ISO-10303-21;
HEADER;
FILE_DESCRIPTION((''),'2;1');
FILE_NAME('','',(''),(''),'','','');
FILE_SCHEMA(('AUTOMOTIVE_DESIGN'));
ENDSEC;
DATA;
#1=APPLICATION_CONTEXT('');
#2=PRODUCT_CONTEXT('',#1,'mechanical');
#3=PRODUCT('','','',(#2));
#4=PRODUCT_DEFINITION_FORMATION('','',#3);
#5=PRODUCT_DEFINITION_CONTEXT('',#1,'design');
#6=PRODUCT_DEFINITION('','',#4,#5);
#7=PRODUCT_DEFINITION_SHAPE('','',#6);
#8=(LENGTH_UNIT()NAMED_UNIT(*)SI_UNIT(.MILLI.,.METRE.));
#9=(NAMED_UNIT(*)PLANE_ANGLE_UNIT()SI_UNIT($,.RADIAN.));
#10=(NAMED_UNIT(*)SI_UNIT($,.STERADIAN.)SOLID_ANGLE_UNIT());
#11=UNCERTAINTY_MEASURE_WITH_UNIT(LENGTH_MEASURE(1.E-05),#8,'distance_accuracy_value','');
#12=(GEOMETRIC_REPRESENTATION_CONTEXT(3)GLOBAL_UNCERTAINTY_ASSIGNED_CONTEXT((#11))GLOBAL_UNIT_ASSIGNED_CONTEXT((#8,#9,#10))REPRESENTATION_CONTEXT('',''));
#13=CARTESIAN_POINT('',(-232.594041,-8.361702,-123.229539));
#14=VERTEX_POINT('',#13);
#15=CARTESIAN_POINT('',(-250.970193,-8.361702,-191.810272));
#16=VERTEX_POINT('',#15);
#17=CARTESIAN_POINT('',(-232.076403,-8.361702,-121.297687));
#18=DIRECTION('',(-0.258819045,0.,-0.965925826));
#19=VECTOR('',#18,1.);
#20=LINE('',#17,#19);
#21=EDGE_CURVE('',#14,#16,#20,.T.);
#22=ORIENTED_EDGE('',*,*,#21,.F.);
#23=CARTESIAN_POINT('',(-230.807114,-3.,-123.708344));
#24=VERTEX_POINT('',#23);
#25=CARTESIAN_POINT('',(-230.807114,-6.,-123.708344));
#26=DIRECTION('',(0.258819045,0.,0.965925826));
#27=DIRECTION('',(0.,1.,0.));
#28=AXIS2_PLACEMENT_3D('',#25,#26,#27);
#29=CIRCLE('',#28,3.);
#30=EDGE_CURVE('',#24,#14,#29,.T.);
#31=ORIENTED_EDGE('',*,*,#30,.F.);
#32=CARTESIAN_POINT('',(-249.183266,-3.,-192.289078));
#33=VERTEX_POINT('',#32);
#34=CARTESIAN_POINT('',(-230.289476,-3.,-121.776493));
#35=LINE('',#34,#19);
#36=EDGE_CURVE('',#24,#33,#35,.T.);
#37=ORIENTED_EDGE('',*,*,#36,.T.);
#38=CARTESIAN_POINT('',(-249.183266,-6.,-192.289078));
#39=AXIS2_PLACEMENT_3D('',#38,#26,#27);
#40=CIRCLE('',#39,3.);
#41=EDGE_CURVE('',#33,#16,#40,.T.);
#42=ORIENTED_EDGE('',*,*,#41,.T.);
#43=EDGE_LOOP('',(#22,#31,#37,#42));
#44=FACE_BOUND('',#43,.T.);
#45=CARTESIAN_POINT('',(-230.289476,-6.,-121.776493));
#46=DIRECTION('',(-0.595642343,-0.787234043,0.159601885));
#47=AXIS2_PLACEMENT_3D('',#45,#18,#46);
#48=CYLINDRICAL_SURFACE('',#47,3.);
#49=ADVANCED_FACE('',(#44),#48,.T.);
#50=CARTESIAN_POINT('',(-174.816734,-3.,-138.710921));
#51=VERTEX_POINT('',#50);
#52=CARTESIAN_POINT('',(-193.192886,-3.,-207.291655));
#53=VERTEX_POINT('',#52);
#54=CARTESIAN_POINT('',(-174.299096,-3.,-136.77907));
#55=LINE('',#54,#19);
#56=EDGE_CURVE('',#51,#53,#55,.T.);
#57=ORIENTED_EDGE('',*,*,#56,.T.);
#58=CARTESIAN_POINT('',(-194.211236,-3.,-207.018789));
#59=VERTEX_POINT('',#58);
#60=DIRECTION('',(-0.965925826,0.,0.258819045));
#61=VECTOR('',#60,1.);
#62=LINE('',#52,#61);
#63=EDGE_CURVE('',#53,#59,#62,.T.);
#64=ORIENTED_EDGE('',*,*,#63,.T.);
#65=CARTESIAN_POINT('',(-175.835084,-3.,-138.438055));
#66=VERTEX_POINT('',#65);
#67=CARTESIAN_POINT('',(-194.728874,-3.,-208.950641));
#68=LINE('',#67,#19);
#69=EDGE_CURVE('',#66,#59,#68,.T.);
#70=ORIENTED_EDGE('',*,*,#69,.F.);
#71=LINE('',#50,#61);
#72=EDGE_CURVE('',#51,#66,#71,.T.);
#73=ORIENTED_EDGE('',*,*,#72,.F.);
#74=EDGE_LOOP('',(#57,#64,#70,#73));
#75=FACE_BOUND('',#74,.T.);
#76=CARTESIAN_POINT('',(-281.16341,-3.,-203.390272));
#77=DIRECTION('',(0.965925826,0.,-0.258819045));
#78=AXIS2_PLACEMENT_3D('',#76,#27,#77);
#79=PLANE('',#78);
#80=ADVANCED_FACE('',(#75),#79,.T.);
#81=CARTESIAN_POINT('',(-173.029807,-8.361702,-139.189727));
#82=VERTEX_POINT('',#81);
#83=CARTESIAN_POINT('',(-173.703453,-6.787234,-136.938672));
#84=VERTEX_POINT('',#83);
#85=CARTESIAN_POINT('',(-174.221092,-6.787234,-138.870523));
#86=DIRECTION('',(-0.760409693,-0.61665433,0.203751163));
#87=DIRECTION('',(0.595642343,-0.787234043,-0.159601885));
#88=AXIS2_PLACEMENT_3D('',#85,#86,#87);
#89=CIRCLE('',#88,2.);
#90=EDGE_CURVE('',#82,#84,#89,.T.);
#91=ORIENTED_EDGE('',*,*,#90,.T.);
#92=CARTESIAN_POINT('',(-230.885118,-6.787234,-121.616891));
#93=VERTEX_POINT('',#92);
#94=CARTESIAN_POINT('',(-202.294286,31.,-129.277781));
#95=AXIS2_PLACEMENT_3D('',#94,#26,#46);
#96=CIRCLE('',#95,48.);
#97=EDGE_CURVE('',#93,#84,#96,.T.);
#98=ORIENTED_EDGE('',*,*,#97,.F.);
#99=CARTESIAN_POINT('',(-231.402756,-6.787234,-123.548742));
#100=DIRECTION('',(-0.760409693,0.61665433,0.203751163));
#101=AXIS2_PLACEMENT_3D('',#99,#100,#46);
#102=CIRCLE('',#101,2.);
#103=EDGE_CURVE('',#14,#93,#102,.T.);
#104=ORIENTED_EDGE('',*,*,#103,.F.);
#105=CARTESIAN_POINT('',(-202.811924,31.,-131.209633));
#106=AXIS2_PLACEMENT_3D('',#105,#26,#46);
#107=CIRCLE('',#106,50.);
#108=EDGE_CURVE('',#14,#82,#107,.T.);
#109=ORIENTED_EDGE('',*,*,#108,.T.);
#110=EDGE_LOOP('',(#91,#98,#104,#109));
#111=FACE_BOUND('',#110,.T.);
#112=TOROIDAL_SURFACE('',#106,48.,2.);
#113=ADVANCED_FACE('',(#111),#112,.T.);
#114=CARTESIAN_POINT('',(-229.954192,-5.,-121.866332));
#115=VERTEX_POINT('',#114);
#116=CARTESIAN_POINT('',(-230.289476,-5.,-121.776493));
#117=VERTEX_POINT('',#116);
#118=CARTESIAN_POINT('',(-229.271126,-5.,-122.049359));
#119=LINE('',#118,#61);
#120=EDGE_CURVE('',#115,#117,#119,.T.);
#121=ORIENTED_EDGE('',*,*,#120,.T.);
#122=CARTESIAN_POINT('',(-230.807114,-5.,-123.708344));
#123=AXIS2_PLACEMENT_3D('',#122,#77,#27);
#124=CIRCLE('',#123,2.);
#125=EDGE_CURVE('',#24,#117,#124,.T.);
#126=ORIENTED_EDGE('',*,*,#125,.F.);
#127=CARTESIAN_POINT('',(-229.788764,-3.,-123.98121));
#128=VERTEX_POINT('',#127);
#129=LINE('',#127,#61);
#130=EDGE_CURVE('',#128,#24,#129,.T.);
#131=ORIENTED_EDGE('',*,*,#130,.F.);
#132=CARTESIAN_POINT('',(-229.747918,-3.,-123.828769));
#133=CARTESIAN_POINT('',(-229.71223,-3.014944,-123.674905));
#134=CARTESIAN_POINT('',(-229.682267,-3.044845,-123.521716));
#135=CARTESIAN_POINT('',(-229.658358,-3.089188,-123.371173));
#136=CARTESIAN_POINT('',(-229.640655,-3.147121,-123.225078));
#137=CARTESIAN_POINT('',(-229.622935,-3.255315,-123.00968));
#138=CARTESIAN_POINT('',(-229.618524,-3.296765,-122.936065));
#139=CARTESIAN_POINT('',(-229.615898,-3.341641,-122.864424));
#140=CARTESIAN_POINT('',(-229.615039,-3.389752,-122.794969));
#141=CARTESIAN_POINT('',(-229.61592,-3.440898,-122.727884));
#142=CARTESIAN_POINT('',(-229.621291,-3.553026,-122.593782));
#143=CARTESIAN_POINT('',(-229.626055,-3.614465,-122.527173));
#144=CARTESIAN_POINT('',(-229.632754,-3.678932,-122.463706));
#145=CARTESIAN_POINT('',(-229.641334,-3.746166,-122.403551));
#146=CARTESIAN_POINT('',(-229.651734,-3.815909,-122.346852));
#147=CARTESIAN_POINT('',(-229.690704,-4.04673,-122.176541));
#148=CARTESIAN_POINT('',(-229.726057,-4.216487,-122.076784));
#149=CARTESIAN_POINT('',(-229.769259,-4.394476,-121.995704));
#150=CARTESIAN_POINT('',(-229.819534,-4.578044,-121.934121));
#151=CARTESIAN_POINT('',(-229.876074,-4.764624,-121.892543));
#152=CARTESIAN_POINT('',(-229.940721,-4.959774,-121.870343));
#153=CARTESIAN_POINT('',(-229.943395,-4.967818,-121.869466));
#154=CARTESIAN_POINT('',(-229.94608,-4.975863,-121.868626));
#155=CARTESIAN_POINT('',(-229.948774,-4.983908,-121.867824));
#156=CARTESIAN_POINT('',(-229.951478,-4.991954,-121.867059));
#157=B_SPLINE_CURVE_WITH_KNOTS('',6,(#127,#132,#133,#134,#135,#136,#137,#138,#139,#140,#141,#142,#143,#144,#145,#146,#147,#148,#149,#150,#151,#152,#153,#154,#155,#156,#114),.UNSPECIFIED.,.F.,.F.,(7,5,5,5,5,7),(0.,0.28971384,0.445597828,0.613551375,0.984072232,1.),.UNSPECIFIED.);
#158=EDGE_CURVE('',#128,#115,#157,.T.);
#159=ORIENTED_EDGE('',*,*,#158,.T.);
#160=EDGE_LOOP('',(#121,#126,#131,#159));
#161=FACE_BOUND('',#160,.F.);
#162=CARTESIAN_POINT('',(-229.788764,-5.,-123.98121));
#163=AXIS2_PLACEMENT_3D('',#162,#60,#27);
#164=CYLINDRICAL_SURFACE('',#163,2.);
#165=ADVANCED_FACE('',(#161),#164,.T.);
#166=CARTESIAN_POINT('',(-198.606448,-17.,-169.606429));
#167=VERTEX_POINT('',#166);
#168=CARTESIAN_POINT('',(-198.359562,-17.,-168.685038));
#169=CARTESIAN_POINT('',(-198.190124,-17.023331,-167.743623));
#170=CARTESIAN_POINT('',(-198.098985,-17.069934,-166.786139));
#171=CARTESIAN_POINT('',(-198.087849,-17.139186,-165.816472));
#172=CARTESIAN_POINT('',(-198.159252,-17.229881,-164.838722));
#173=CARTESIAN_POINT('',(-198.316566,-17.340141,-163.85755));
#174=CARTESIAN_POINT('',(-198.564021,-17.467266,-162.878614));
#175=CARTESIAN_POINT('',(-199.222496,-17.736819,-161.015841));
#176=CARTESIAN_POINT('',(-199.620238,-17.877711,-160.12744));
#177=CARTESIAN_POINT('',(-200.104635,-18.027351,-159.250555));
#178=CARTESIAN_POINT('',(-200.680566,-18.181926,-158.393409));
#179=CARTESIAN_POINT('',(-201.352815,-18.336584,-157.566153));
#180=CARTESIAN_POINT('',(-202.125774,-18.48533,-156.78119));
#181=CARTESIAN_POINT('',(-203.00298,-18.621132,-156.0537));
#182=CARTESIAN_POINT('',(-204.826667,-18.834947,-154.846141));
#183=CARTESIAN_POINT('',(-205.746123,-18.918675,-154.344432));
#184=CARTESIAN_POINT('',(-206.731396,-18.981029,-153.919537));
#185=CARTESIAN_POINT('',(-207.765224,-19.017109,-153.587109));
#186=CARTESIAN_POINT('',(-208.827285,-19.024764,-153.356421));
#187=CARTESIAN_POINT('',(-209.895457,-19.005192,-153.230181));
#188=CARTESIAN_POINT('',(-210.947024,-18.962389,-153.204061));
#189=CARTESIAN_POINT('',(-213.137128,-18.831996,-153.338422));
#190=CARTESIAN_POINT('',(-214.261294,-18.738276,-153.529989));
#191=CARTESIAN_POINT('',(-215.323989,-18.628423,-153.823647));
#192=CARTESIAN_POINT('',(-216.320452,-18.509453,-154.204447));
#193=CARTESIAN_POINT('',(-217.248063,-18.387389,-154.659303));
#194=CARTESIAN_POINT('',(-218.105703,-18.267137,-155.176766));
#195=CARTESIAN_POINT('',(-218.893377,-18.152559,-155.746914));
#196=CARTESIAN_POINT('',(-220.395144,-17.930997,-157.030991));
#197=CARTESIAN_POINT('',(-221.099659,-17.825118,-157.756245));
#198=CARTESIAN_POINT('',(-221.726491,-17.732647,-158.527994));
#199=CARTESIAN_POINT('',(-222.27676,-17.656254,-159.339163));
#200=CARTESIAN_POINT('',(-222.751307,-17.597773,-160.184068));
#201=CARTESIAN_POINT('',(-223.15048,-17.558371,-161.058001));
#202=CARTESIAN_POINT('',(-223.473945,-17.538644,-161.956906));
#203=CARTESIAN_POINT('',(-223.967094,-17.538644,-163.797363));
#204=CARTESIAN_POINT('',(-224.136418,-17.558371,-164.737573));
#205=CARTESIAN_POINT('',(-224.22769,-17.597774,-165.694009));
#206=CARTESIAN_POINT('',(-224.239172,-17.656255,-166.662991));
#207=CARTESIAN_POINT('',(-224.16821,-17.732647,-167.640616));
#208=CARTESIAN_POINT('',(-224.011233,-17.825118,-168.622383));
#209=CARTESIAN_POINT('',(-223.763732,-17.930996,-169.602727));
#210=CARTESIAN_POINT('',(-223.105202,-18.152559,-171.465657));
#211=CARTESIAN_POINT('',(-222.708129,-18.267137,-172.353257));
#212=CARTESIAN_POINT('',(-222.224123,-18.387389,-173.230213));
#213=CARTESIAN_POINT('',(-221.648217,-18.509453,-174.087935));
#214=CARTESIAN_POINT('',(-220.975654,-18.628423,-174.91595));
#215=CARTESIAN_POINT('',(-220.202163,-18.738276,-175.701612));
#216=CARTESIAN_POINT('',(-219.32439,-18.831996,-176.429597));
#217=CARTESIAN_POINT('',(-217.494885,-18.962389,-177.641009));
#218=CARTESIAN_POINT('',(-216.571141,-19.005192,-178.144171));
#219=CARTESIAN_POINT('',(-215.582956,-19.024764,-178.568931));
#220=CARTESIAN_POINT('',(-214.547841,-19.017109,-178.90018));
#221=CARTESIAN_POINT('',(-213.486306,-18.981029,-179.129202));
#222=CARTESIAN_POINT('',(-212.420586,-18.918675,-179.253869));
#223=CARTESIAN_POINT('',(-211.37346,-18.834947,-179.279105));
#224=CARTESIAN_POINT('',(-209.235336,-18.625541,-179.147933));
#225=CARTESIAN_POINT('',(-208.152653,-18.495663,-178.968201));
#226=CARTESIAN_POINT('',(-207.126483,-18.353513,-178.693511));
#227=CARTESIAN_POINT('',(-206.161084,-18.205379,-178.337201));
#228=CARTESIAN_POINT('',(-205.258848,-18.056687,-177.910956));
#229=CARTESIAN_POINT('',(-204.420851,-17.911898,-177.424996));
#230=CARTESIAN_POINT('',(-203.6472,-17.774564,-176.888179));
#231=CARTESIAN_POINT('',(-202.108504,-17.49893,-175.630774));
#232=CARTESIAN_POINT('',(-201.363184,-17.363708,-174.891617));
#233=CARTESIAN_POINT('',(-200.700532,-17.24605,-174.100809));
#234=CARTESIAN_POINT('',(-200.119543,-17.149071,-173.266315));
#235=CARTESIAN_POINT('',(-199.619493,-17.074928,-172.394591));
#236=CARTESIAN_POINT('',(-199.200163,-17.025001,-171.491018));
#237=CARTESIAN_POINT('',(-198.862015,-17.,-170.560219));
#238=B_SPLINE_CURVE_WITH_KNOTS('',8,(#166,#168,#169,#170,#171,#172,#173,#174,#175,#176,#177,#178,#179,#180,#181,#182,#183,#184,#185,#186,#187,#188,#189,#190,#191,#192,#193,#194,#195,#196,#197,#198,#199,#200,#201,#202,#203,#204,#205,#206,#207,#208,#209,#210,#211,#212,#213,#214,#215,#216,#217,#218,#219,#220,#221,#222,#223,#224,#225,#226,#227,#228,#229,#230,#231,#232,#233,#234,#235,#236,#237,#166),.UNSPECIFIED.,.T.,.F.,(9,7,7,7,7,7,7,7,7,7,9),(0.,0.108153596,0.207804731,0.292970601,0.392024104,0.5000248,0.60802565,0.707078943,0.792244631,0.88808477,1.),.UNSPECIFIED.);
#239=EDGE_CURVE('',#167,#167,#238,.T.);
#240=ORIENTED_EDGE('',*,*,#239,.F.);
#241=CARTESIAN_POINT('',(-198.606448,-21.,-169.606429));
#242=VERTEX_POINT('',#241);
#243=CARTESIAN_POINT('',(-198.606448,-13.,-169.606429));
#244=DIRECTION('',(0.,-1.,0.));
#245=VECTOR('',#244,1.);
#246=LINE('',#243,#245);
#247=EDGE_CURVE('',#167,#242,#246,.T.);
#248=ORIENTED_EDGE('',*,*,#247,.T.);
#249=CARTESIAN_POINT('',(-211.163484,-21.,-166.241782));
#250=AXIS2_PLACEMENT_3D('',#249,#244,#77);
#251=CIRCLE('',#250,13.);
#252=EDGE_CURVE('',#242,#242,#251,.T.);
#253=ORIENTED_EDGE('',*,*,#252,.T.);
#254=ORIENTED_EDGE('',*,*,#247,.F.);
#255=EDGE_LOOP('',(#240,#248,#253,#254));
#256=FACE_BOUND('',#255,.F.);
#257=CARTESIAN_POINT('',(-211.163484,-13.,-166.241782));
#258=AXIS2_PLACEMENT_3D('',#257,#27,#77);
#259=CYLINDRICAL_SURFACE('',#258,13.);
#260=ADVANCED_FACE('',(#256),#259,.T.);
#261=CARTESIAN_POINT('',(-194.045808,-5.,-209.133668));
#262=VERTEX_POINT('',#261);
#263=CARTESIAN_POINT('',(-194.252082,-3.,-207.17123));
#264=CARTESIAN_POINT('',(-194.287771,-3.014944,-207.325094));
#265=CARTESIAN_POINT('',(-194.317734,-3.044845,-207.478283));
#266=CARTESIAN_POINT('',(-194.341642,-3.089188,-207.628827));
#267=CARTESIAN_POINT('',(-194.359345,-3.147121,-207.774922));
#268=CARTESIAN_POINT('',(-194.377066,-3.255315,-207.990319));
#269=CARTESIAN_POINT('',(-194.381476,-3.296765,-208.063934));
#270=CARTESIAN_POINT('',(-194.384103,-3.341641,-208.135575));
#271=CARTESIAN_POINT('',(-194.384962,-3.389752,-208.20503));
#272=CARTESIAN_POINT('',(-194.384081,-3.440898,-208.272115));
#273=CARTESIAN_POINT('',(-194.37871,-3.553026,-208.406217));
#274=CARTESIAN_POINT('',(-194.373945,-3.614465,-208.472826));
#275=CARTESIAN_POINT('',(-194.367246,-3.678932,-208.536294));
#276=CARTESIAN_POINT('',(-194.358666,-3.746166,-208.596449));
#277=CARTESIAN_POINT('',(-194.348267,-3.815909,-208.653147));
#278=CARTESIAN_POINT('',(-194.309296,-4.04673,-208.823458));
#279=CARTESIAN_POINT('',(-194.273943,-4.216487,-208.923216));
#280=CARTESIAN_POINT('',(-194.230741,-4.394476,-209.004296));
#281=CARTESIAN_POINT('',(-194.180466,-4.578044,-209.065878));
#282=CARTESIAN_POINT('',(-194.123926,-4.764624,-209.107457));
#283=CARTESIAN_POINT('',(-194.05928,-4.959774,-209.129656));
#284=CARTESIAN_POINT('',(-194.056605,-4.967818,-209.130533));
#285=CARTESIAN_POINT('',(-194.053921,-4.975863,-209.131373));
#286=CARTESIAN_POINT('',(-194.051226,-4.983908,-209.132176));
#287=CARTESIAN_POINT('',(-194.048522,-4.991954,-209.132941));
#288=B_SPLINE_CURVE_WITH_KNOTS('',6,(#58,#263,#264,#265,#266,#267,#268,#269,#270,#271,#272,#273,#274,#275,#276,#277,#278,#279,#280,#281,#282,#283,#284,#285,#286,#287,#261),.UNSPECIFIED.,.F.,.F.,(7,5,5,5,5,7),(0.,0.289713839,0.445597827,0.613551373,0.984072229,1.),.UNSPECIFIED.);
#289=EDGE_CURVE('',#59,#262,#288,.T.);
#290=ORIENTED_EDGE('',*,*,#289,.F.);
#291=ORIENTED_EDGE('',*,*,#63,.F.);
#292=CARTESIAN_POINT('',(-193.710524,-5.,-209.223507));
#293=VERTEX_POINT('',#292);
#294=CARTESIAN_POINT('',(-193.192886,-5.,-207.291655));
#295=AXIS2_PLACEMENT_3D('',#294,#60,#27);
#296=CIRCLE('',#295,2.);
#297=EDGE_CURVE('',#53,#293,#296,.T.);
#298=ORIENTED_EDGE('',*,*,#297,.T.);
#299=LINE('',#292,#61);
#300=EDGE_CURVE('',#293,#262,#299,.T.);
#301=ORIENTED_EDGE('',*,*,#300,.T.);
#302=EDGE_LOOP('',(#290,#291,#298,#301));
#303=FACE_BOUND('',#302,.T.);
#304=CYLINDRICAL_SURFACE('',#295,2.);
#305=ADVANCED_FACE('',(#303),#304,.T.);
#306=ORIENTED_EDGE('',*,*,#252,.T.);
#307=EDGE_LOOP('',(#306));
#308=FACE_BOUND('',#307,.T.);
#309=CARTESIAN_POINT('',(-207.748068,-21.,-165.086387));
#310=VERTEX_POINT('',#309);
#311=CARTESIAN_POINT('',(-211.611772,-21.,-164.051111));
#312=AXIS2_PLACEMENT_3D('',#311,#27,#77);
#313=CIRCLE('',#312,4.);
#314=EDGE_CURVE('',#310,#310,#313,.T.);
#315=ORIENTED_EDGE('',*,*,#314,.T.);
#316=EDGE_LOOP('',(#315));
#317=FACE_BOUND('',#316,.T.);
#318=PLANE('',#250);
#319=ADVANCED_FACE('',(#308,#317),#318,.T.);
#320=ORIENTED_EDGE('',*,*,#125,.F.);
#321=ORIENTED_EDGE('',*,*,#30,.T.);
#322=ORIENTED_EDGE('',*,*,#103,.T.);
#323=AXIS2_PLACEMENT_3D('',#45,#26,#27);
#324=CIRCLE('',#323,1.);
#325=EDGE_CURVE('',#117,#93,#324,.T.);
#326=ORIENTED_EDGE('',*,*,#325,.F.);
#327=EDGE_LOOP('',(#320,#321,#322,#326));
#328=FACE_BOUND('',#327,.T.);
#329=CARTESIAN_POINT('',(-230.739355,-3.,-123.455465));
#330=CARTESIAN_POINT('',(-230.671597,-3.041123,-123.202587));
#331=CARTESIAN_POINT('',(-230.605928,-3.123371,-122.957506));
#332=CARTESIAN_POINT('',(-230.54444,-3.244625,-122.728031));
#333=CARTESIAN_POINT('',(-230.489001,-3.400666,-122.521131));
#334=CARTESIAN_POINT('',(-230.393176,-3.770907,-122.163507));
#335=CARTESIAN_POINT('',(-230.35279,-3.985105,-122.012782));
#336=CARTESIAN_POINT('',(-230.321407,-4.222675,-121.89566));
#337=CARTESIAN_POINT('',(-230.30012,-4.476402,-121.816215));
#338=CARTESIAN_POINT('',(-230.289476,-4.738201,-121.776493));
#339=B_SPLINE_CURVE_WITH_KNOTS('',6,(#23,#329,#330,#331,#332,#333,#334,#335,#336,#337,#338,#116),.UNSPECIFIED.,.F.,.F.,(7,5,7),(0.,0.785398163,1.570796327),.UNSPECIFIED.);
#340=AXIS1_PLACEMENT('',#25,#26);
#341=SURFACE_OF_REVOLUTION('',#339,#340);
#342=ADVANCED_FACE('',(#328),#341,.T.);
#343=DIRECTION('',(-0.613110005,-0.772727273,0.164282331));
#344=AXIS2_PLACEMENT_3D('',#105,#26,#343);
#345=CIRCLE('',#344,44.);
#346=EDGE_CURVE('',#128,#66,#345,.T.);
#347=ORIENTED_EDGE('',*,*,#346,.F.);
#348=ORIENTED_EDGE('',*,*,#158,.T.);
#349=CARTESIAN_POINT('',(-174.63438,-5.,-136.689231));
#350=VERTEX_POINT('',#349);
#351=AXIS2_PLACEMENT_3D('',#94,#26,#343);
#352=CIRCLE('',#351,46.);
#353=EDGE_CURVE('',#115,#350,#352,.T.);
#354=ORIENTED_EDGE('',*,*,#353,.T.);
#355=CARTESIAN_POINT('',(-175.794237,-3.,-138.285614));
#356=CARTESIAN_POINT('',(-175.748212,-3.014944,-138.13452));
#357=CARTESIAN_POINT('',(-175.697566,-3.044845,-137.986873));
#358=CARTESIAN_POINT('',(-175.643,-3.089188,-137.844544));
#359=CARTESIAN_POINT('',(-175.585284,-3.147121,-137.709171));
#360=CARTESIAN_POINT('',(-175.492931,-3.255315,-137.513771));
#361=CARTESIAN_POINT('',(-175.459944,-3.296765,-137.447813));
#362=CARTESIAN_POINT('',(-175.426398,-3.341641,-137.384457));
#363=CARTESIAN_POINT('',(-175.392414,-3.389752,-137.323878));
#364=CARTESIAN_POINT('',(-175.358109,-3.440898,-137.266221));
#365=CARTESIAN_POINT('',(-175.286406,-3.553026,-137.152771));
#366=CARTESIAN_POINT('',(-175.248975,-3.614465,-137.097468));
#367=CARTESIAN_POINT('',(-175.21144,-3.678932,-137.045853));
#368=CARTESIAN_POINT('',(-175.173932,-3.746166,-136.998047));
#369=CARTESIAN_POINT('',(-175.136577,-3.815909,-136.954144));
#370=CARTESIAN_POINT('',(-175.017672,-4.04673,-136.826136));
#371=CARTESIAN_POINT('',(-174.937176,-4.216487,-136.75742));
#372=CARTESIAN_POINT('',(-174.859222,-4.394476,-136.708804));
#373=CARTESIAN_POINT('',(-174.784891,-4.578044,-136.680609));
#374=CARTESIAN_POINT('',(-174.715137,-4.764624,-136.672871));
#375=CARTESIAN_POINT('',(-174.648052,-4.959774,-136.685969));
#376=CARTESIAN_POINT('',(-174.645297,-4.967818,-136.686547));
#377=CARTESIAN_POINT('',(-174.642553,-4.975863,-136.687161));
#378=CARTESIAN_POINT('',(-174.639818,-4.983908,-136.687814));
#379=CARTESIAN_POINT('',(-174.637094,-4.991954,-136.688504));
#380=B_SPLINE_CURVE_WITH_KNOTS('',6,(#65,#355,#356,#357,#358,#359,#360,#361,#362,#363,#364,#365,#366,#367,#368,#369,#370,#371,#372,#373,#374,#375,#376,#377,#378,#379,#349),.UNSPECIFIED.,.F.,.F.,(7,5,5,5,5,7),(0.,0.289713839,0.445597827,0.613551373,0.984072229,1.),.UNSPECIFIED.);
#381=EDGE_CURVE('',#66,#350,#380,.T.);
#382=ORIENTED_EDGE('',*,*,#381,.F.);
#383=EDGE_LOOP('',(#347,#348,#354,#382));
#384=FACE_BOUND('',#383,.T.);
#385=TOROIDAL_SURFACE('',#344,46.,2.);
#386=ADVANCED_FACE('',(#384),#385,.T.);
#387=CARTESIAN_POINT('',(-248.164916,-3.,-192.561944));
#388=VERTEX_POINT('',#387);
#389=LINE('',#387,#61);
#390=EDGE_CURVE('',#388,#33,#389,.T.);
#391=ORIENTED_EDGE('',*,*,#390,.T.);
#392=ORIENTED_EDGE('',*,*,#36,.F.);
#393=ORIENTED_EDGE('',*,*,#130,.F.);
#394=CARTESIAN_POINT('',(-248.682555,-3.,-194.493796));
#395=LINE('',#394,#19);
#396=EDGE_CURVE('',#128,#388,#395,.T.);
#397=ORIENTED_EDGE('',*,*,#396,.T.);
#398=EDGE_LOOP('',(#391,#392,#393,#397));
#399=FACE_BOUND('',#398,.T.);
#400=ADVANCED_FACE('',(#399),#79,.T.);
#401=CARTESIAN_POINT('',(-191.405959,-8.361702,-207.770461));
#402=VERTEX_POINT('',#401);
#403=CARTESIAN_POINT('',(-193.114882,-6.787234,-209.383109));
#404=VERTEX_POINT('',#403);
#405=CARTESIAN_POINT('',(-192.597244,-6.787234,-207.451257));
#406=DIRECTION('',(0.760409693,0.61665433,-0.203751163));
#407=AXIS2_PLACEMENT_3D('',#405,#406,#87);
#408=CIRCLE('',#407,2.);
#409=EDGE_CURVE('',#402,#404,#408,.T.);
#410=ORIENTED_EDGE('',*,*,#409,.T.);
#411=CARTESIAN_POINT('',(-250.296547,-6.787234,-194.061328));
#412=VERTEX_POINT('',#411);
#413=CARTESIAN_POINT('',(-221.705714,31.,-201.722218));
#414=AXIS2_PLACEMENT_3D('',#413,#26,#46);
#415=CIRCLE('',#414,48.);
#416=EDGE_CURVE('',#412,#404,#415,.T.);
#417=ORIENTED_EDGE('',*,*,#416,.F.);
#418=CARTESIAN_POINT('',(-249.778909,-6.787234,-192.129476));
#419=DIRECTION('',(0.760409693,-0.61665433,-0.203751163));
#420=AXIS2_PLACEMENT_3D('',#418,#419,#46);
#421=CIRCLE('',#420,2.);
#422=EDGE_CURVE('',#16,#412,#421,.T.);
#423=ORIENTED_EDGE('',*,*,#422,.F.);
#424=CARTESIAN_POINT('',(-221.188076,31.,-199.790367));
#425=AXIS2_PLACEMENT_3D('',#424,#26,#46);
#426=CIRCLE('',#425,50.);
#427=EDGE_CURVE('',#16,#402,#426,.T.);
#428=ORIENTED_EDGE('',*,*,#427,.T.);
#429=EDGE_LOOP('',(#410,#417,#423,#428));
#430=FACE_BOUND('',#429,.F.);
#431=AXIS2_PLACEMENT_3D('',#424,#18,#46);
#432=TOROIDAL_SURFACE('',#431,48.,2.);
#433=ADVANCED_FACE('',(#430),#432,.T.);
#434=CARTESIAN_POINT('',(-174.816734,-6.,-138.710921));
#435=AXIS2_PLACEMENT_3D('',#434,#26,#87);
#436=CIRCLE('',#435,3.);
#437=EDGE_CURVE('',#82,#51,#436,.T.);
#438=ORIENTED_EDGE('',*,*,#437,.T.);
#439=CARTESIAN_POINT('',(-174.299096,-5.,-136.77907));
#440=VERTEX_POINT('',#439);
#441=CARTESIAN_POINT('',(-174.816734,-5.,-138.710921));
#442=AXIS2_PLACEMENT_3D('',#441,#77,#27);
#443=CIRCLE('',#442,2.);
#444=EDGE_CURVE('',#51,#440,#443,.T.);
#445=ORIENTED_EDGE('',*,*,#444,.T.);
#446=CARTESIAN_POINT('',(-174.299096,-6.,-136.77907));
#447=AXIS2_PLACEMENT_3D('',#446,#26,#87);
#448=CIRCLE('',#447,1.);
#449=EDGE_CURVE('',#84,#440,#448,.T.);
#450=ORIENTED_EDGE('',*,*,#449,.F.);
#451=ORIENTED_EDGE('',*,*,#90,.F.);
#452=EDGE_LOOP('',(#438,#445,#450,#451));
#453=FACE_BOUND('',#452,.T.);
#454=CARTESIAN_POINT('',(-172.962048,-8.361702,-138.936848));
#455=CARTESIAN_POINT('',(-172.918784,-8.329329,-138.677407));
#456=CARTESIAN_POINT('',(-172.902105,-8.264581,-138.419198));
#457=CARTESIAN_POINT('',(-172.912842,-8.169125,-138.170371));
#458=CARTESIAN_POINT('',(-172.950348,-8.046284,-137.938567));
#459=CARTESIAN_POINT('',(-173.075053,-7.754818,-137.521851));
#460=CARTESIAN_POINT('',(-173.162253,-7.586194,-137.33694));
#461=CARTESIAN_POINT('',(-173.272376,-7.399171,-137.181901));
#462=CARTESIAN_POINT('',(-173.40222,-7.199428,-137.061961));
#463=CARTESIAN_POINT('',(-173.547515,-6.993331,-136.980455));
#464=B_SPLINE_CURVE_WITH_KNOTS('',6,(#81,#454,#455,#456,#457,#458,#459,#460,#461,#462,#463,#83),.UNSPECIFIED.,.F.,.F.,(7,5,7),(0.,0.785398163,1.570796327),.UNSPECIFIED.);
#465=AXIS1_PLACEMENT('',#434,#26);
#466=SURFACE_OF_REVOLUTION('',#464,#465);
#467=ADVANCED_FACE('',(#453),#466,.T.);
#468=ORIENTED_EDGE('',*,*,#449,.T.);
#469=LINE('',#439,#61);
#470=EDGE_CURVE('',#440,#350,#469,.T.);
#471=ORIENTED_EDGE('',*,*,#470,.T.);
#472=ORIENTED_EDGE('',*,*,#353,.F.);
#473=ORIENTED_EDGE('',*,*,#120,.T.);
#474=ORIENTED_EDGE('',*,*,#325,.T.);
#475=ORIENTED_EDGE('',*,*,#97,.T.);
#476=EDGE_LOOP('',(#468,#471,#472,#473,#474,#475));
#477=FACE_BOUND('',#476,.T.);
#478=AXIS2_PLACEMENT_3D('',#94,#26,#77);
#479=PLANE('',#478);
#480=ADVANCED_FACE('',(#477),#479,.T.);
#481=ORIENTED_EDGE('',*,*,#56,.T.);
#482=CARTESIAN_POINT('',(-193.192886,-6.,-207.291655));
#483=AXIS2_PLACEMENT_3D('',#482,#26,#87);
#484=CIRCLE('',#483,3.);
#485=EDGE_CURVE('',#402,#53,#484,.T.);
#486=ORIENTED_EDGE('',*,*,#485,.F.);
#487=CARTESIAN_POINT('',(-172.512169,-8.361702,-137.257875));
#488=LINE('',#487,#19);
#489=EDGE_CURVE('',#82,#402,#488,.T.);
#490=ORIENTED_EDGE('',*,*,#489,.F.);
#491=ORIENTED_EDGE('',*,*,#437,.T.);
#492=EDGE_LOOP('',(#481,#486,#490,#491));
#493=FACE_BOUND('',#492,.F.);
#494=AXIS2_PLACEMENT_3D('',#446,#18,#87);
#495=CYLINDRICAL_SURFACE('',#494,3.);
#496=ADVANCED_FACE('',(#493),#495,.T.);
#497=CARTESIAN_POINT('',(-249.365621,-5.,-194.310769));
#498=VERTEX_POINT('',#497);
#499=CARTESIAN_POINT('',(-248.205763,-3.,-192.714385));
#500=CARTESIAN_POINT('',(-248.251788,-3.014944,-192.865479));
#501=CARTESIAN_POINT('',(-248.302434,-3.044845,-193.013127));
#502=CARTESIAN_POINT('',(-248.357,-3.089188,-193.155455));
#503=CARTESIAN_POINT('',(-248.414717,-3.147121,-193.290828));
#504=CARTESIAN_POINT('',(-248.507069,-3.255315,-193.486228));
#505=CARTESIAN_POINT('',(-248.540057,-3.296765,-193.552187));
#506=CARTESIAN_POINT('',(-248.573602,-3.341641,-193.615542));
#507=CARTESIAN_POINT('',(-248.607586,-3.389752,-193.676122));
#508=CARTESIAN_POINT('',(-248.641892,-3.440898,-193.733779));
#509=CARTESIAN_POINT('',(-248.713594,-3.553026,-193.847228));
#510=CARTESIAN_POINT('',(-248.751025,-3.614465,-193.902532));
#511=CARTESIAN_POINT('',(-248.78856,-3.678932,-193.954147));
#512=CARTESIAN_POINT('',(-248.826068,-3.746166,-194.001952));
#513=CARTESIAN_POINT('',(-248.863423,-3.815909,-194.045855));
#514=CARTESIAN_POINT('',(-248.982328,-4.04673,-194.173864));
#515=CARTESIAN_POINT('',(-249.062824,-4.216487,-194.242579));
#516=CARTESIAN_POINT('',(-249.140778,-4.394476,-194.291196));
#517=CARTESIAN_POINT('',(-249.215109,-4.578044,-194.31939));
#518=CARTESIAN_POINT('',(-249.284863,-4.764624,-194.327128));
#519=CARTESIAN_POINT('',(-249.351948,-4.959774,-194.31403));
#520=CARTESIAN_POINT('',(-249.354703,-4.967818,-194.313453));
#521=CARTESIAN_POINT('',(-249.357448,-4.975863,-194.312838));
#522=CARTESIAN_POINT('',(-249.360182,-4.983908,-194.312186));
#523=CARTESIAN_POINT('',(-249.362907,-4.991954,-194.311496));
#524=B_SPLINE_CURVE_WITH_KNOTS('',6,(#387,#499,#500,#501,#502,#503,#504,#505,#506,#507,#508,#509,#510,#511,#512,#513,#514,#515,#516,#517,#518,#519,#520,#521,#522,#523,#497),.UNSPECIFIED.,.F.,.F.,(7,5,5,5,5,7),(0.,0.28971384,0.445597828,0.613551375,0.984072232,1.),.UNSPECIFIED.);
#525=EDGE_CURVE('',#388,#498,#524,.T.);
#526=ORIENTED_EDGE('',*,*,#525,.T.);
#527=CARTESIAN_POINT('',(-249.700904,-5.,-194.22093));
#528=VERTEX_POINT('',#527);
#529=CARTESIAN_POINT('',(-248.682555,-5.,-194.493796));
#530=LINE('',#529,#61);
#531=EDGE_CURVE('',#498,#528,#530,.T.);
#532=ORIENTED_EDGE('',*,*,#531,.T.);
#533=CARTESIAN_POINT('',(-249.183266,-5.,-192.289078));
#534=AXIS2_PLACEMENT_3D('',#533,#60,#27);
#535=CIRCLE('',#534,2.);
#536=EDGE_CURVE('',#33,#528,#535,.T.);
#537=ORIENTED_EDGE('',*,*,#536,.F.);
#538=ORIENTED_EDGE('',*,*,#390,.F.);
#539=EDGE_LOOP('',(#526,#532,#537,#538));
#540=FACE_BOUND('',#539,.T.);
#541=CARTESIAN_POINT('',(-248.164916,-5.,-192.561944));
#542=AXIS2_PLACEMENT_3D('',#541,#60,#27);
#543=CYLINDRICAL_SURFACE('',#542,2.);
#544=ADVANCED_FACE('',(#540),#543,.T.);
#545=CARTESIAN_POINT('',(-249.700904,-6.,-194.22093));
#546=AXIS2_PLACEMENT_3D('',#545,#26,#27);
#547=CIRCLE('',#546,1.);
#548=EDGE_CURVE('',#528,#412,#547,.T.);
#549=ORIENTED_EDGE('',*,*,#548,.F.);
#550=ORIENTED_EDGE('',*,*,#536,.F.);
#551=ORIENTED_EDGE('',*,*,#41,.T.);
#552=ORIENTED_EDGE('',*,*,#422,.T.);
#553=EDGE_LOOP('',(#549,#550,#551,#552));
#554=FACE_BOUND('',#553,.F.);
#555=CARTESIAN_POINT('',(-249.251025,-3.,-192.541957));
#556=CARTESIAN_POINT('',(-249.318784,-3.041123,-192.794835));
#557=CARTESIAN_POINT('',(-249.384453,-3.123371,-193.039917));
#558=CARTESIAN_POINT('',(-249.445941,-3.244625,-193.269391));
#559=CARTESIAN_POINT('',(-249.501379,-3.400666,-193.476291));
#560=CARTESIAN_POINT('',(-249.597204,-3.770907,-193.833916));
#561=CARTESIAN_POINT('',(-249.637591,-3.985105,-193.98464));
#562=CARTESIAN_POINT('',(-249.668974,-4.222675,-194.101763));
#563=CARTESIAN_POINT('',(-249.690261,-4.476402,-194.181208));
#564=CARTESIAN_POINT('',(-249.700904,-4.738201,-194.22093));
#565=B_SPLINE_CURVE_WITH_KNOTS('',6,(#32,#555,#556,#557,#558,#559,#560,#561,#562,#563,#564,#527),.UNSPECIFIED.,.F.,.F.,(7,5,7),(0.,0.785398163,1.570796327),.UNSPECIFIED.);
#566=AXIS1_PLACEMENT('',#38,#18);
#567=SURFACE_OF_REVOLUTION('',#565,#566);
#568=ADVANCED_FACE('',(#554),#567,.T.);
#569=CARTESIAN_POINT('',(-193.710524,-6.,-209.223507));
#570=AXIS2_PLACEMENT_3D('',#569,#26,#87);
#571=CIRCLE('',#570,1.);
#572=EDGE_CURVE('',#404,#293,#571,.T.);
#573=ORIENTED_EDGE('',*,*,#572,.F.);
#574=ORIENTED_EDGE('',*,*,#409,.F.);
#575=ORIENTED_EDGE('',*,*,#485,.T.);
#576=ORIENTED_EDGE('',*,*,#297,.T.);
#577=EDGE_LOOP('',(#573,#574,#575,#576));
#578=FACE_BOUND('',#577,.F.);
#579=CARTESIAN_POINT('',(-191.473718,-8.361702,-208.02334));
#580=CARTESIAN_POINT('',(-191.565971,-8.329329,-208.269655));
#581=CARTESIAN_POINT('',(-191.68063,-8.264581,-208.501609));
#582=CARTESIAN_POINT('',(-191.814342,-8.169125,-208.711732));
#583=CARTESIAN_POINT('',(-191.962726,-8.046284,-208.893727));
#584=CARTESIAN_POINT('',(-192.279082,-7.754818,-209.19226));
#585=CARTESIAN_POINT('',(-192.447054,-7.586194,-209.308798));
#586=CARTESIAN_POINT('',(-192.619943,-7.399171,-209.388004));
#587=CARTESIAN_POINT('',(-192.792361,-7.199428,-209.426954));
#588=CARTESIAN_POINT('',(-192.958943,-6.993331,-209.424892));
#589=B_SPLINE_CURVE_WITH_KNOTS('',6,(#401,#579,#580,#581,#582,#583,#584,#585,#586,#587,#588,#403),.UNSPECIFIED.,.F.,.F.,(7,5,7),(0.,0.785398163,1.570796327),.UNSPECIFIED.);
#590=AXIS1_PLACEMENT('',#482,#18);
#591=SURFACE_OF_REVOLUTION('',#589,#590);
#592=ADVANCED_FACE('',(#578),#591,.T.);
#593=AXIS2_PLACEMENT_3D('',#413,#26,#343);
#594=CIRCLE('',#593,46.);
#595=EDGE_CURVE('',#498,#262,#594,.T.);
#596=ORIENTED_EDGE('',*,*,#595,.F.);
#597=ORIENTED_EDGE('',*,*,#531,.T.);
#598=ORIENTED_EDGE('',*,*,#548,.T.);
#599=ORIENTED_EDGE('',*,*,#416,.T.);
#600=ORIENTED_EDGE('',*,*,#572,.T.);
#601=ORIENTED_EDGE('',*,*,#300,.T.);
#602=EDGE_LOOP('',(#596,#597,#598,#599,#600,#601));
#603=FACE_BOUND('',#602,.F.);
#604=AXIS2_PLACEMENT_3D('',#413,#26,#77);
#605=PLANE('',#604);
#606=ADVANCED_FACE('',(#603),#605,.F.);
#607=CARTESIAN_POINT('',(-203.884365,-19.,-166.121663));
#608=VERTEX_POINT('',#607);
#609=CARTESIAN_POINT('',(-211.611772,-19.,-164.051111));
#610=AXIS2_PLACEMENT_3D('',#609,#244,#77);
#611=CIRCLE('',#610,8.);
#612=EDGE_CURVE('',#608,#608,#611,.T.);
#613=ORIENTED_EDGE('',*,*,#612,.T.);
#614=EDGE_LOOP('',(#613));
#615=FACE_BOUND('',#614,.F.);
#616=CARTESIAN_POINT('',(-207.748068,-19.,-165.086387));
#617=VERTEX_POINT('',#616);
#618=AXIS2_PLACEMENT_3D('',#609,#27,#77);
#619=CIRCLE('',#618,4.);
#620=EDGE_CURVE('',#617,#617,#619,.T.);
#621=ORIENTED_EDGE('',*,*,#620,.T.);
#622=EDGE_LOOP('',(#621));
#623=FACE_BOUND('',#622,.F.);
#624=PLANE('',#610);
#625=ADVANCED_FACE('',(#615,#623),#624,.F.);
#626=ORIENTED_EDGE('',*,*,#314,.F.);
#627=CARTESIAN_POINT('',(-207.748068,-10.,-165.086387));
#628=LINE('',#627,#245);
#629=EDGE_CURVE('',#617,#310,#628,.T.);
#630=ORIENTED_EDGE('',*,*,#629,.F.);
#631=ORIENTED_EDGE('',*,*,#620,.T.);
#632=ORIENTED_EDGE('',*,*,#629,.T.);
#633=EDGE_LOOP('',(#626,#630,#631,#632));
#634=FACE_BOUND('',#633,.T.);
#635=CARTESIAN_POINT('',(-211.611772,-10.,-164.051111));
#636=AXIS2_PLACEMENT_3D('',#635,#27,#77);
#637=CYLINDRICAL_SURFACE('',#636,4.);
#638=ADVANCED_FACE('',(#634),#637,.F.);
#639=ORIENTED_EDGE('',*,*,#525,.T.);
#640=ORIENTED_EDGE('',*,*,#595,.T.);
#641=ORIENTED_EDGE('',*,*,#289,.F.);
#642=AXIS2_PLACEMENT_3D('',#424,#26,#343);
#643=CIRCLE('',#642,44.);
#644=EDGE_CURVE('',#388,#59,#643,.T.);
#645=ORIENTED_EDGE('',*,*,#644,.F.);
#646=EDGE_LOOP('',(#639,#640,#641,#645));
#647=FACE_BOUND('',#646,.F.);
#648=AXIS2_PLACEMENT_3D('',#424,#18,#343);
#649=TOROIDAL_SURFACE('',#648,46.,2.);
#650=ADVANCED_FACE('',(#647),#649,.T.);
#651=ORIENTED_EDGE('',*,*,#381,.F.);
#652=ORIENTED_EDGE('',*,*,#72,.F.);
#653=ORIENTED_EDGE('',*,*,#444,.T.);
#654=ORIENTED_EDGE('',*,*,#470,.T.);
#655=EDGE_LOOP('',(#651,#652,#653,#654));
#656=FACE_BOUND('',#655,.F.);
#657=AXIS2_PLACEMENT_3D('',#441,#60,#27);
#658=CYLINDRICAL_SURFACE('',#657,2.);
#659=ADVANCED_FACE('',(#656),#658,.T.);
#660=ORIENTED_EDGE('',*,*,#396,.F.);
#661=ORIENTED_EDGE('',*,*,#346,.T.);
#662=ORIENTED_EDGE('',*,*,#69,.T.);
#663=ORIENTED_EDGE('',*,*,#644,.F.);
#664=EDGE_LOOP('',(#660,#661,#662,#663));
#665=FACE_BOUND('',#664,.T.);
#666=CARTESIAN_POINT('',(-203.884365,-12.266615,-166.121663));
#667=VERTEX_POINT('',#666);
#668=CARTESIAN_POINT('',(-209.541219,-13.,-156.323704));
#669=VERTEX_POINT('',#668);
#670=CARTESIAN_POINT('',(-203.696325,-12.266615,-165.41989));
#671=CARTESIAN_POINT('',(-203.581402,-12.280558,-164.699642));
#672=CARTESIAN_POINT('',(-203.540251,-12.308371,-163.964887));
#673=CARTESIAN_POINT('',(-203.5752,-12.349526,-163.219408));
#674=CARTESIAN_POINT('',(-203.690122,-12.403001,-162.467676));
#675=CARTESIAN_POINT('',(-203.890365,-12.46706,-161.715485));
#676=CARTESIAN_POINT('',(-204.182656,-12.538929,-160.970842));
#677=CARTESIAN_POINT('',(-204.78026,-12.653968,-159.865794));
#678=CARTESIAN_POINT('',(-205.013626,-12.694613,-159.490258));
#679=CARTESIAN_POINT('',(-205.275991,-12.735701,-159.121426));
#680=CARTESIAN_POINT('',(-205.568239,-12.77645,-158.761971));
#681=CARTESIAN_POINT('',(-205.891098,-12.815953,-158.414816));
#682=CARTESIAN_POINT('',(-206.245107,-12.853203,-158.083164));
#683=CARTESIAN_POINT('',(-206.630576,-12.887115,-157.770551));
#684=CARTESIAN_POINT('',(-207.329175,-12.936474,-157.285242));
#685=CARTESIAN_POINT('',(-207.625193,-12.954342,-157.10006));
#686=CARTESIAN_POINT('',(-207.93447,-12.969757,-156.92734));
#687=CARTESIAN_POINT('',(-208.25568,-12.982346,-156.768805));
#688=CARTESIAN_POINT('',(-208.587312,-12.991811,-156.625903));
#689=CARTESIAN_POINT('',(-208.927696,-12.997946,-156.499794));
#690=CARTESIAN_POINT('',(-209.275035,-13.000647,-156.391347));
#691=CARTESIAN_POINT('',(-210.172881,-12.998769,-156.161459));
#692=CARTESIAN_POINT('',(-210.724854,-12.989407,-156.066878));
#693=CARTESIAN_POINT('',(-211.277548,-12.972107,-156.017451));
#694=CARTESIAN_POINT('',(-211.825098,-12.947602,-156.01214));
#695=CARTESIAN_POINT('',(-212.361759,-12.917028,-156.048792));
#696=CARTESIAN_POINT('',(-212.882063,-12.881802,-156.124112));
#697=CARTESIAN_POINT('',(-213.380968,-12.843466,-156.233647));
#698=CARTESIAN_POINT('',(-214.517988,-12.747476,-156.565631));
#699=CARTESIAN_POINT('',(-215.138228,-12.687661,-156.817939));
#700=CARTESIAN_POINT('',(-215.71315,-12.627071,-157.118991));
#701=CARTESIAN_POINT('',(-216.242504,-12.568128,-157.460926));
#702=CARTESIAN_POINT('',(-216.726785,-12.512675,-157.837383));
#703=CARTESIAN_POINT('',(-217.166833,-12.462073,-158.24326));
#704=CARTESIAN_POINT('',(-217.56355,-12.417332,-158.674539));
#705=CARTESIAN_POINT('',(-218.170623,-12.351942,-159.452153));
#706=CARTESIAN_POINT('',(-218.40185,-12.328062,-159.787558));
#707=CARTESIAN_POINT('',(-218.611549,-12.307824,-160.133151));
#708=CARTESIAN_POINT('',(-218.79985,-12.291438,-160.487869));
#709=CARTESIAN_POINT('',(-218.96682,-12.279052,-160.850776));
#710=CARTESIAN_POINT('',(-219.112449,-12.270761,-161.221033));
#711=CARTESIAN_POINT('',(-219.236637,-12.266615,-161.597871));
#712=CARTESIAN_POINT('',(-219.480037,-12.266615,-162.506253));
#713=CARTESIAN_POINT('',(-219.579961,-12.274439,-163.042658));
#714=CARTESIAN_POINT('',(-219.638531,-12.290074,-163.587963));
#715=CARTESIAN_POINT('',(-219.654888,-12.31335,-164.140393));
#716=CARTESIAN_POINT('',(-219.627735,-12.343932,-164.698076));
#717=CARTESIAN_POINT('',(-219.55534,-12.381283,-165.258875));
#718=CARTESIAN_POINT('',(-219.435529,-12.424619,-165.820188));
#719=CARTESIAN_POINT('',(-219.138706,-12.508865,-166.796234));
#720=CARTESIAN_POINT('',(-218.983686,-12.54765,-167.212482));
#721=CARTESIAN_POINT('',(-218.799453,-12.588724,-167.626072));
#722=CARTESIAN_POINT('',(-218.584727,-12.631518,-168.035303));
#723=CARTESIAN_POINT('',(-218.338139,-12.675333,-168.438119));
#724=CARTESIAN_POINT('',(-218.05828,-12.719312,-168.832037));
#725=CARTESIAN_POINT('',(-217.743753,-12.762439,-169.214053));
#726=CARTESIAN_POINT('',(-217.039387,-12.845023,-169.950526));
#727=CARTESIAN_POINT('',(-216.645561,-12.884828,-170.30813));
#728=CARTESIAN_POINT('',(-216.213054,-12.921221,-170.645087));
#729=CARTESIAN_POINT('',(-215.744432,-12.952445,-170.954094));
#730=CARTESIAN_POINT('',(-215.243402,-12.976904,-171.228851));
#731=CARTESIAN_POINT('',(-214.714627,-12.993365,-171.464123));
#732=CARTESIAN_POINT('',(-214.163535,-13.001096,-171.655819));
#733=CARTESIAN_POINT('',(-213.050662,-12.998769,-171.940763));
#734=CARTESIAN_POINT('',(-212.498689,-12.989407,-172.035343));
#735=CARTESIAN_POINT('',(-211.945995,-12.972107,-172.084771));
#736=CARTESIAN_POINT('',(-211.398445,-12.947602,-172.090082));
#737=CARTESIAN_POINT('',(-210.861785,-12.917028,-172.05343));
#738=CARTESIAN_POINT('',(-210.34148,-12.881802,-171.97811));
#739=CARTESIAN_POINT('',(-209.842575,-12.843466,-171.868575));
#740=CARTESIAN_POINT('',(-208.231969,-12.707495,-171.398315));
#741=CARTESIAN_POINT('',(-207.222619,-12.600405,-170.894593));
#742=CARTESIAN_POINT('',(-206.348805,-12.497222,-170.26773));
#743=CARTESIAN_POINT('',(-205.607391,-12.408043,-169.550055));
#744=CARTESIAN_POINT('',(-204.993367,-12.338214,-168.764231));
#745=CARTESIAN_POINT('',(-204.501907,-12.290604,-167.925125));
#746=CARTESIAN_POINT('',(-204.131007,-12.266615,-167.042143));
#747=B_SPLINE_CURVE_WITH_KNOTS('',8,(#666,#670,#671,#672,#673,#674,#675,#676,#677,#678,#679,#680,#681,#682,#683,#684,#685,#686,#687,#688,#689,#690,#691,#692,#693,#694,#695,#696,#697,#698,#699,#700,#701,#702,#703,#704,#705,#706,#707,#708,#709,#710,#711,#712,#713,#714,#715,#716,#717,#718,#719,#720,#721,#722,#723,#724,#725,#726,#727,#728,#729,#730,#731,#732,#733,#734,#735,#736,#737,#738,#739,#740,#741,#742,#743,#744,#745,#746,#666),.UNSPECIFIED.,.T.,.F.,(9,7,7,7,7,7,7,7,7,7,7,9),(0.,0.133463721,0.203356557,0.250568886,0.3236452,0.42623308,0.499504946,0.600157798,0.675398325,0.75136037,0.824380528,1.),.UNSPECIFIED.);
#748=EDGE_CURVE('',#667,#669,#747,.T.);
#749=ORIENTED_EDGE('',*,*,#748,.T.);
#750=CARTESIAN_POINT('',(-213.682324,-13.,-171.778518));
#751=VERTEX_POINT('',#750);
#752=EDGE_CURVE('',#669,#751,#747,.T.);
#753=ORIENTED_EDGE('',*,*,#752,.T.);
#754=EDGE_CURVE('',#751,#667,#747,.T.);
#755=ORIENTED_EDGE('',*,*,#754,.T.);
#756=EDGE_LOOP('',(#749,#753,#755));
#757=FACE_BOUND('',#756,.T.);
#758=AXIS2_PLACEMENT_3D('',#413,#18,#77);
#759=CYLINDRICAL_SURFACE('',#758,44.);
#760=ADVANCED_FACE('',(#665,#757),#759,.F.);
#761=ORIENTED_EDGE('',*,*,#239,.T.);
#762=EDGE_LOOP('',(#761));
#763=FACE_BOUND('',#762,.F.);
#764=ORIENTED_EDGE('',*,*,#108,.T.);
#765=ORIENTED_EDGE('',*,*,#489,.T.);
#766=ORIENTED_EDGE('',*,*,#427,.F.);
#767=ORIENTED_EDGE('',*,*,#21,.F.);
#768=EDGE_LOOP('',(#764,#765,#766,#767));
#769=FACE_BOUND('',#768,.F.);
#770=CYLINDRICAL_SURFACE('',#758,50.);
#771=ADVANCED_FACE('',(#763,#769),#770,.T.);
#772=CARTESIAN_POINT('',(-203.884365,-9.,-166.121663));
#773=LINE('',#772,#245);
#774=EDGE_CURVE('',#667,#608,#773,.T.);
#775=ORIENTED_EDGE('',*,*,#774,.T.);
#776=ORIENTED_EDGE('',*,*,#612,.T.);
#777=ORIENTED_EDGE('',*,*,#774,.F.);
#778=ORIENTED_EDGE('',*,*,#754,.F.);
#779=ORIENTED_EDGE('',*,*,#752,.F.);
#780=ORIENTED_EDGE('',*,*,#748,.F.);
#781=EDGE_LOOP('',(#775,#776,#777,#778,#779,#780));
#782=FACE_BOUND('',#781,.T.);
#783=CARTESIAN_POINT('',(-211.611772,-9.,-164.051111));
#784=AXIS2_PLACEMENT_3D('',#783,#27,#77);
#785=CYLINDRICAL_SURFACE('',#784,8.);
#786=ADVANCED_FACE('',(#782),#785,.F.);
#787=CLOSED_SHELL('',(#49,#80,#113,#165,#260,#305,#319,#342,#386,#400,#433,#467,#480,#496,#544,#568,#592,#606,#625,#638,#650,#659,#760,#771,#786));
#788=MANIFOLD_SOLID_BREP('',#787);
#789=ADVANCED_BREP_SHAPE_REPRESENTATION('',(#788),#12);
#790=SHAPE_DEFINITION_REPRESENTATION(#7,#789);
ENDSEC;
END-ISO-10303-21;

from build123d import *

# Parameters (mm, degrees)
CYLINDER016_R          = 8
CYLINDER016_DEPTH      = 10
CYLINDER016_ROLL_ANGLE = 90
CYLINDER015_R          = 4
CYLINDER015_DEPTH      = 20
CYLINDER015_ROLL_ANGLE = 90
BOX016_W               = 120
BOX016_H               = 100
BOX016_DEPTH           = 150
CYLINDER014_R          = 44
CYLINDER014_DEPTH      = 75
CYLINDER013_R          = 50
CYLINDER013_DEPTH      = 75
CYLINDER012_R          = 13
CYLINDER012_DEPTH      = 8
CYLINDER012_ROLL_ANGLE = 90
FILLET012_R            = 3
FILLET013_R            = 2
FILLET014_R            = 2
CUT021_PITCH_ANGLE     = 15


with BuildPart() as cylindre016:
    # Cylinder016 → Cylinder016 (new body)
    with BuildSketch(Plane.XY):
        Circle(CYLINDER016_R)
    extrude(amount=CYLINDER016_DEPTH)


with BuildPart() as cylindre016_1:
    # Cylinder016 roll: moved
    add(cylindre016.part.rotate(Axis((0, 0, 0), (1, 0, 0)), CYLINDER016_ROLL_ANGLE))


with BuildPart() as cylindre016_2:
    # Cylinder016 placement: moved
    add(cylindre016_1.part.moved(Location((-212, -9, -164))))


with BuildPart() as cylindre015:
    # Cylinder015 → Cylinder015 (new body)
    with BuildSketch(Plane.XY):
        Circle(CYLINDER015_R)
    extrude(amount=CYLINDER015_DEPTH)


with BuildPart() as cylindre015_1:
    # Cylinder015 roll: moved
    add(cylindre015.part.rotate(Axis((0, 0, 0), (1, 0, 0)), CYLINDER015_ROLL_ANGLE))


with BuildPart() as cylindre015_2:
    # Cylinder015 placement: moved
    add(cylindre015_1.part.moved(Location((-212, -10, -164))))


with BuildPart() as cube016:
    # Box016 → Box016 (new body)
    with BuildSketch(Plane(origin=(-269, -3, -220), x_dir=(1, 0, 0), z_dir=(0, 0, 1))):
        with Locations((60, 50)):
            Rectangle(BOX016_W, BOX016_H)
    extrude(amount=BOX016_DEPTH)


with BuildPart() as cylindre014:
    # Cylinder014 → Cylinder014 (new body)
    with BuildSketch(Plane(origin=(-212, 31, -203), x_dir=(1, 0, 0), z_dir=(0, 0, 1))):
        Circle(CYLINDER014_R)
    extrude(amount=CYLINDER014_DEPTH)


with BuildPart() as cut017:
    # Cylinder013 → Cylinder013 (new body)
    with BuildSketch(Plane(origin=(-212, 31, -203), x_dir=(1, 0, 0), z_dir=(0, 0, 1))):
        Circle(CYLINDER013_R)
    extrude(amount=CYLINDER013_DEPTH)

    # Cut017: cut Cylindre014
    add(cylindre014.part, mode=Mode.SUBTRACT)


with BuildPart() as cut021:
    # Cylinder012 → Cylinder012 (new body)
    with BuildSketch(Plane.XY):
        Circle(CYLINDER012_R)
    extrude(amount=CYLINDER012_DEPTH)


with BuildPart() as cut021_1:
    # Cylinder012 roll: moved
    add(cut021.part.rotate(Axis((0, 0, 0), (1, 0, 0)), CYLINDER012_ROLL_ANGLE))


with BuildPart() as cut021_2:
    # Cylinder012 placement: moved
    add(cut021_1.part.moved(Location((-211, -13, -166))))

    # Fusion011: union Cut017
    add(cut017.part)

    # Cut018: cut Cube016
    add(cube016.part, mode=Mode.SUBTRACT)

    # Fillet012
    fillet012_edges = [cut021_2.edges().sort_by_distance(p)[0] for p in [
        (-175.339394, -3, -165.5),
        (-248.660606, -3, -165.5),
    ]]
    fillet(fillet012_edges, radius=FILLET012_R)

    # Fillet013
    fillet013_edges = [cut021_2.edges().sort_by_distance(p)[0] for p in [
        (-212, -19, -203),
        (-212, -13, -203),
    ]]
    fillet(fillet013_edges, radius=FILLET013_R)

    # Fillet014
    fillet014_edges = [cut021_2.edges().sort_by_distance(p)[0] for p in [
        (-212, -19, -128),
        (-212, -13, -128),
    ]]
    fillet(fillet014_edges, radius=FILLET014_R)

    # Cut019: cut Cylindre015
    add(cylindre015_2.part, mode=Mode.SUBTRACT)

    # Cut021: cut Cylindre016
    add(cylindre016_2.part, mode=Mode.SUBTRACT)


with BuildPart() as cut021_3:
    # Cut021 pitch: moved
    add(cut021_2.part.rotate(Axis((0, 0, 0), (0, 1, 0)), CUT021_PITCH_ANGLE))


with BuildPart() as cut021_4:
    # Cut021 placement: moved
    add(cut021_3.part.moved(Location((35.610827, 0, -60.508913))))


solid = cut021_4.part
